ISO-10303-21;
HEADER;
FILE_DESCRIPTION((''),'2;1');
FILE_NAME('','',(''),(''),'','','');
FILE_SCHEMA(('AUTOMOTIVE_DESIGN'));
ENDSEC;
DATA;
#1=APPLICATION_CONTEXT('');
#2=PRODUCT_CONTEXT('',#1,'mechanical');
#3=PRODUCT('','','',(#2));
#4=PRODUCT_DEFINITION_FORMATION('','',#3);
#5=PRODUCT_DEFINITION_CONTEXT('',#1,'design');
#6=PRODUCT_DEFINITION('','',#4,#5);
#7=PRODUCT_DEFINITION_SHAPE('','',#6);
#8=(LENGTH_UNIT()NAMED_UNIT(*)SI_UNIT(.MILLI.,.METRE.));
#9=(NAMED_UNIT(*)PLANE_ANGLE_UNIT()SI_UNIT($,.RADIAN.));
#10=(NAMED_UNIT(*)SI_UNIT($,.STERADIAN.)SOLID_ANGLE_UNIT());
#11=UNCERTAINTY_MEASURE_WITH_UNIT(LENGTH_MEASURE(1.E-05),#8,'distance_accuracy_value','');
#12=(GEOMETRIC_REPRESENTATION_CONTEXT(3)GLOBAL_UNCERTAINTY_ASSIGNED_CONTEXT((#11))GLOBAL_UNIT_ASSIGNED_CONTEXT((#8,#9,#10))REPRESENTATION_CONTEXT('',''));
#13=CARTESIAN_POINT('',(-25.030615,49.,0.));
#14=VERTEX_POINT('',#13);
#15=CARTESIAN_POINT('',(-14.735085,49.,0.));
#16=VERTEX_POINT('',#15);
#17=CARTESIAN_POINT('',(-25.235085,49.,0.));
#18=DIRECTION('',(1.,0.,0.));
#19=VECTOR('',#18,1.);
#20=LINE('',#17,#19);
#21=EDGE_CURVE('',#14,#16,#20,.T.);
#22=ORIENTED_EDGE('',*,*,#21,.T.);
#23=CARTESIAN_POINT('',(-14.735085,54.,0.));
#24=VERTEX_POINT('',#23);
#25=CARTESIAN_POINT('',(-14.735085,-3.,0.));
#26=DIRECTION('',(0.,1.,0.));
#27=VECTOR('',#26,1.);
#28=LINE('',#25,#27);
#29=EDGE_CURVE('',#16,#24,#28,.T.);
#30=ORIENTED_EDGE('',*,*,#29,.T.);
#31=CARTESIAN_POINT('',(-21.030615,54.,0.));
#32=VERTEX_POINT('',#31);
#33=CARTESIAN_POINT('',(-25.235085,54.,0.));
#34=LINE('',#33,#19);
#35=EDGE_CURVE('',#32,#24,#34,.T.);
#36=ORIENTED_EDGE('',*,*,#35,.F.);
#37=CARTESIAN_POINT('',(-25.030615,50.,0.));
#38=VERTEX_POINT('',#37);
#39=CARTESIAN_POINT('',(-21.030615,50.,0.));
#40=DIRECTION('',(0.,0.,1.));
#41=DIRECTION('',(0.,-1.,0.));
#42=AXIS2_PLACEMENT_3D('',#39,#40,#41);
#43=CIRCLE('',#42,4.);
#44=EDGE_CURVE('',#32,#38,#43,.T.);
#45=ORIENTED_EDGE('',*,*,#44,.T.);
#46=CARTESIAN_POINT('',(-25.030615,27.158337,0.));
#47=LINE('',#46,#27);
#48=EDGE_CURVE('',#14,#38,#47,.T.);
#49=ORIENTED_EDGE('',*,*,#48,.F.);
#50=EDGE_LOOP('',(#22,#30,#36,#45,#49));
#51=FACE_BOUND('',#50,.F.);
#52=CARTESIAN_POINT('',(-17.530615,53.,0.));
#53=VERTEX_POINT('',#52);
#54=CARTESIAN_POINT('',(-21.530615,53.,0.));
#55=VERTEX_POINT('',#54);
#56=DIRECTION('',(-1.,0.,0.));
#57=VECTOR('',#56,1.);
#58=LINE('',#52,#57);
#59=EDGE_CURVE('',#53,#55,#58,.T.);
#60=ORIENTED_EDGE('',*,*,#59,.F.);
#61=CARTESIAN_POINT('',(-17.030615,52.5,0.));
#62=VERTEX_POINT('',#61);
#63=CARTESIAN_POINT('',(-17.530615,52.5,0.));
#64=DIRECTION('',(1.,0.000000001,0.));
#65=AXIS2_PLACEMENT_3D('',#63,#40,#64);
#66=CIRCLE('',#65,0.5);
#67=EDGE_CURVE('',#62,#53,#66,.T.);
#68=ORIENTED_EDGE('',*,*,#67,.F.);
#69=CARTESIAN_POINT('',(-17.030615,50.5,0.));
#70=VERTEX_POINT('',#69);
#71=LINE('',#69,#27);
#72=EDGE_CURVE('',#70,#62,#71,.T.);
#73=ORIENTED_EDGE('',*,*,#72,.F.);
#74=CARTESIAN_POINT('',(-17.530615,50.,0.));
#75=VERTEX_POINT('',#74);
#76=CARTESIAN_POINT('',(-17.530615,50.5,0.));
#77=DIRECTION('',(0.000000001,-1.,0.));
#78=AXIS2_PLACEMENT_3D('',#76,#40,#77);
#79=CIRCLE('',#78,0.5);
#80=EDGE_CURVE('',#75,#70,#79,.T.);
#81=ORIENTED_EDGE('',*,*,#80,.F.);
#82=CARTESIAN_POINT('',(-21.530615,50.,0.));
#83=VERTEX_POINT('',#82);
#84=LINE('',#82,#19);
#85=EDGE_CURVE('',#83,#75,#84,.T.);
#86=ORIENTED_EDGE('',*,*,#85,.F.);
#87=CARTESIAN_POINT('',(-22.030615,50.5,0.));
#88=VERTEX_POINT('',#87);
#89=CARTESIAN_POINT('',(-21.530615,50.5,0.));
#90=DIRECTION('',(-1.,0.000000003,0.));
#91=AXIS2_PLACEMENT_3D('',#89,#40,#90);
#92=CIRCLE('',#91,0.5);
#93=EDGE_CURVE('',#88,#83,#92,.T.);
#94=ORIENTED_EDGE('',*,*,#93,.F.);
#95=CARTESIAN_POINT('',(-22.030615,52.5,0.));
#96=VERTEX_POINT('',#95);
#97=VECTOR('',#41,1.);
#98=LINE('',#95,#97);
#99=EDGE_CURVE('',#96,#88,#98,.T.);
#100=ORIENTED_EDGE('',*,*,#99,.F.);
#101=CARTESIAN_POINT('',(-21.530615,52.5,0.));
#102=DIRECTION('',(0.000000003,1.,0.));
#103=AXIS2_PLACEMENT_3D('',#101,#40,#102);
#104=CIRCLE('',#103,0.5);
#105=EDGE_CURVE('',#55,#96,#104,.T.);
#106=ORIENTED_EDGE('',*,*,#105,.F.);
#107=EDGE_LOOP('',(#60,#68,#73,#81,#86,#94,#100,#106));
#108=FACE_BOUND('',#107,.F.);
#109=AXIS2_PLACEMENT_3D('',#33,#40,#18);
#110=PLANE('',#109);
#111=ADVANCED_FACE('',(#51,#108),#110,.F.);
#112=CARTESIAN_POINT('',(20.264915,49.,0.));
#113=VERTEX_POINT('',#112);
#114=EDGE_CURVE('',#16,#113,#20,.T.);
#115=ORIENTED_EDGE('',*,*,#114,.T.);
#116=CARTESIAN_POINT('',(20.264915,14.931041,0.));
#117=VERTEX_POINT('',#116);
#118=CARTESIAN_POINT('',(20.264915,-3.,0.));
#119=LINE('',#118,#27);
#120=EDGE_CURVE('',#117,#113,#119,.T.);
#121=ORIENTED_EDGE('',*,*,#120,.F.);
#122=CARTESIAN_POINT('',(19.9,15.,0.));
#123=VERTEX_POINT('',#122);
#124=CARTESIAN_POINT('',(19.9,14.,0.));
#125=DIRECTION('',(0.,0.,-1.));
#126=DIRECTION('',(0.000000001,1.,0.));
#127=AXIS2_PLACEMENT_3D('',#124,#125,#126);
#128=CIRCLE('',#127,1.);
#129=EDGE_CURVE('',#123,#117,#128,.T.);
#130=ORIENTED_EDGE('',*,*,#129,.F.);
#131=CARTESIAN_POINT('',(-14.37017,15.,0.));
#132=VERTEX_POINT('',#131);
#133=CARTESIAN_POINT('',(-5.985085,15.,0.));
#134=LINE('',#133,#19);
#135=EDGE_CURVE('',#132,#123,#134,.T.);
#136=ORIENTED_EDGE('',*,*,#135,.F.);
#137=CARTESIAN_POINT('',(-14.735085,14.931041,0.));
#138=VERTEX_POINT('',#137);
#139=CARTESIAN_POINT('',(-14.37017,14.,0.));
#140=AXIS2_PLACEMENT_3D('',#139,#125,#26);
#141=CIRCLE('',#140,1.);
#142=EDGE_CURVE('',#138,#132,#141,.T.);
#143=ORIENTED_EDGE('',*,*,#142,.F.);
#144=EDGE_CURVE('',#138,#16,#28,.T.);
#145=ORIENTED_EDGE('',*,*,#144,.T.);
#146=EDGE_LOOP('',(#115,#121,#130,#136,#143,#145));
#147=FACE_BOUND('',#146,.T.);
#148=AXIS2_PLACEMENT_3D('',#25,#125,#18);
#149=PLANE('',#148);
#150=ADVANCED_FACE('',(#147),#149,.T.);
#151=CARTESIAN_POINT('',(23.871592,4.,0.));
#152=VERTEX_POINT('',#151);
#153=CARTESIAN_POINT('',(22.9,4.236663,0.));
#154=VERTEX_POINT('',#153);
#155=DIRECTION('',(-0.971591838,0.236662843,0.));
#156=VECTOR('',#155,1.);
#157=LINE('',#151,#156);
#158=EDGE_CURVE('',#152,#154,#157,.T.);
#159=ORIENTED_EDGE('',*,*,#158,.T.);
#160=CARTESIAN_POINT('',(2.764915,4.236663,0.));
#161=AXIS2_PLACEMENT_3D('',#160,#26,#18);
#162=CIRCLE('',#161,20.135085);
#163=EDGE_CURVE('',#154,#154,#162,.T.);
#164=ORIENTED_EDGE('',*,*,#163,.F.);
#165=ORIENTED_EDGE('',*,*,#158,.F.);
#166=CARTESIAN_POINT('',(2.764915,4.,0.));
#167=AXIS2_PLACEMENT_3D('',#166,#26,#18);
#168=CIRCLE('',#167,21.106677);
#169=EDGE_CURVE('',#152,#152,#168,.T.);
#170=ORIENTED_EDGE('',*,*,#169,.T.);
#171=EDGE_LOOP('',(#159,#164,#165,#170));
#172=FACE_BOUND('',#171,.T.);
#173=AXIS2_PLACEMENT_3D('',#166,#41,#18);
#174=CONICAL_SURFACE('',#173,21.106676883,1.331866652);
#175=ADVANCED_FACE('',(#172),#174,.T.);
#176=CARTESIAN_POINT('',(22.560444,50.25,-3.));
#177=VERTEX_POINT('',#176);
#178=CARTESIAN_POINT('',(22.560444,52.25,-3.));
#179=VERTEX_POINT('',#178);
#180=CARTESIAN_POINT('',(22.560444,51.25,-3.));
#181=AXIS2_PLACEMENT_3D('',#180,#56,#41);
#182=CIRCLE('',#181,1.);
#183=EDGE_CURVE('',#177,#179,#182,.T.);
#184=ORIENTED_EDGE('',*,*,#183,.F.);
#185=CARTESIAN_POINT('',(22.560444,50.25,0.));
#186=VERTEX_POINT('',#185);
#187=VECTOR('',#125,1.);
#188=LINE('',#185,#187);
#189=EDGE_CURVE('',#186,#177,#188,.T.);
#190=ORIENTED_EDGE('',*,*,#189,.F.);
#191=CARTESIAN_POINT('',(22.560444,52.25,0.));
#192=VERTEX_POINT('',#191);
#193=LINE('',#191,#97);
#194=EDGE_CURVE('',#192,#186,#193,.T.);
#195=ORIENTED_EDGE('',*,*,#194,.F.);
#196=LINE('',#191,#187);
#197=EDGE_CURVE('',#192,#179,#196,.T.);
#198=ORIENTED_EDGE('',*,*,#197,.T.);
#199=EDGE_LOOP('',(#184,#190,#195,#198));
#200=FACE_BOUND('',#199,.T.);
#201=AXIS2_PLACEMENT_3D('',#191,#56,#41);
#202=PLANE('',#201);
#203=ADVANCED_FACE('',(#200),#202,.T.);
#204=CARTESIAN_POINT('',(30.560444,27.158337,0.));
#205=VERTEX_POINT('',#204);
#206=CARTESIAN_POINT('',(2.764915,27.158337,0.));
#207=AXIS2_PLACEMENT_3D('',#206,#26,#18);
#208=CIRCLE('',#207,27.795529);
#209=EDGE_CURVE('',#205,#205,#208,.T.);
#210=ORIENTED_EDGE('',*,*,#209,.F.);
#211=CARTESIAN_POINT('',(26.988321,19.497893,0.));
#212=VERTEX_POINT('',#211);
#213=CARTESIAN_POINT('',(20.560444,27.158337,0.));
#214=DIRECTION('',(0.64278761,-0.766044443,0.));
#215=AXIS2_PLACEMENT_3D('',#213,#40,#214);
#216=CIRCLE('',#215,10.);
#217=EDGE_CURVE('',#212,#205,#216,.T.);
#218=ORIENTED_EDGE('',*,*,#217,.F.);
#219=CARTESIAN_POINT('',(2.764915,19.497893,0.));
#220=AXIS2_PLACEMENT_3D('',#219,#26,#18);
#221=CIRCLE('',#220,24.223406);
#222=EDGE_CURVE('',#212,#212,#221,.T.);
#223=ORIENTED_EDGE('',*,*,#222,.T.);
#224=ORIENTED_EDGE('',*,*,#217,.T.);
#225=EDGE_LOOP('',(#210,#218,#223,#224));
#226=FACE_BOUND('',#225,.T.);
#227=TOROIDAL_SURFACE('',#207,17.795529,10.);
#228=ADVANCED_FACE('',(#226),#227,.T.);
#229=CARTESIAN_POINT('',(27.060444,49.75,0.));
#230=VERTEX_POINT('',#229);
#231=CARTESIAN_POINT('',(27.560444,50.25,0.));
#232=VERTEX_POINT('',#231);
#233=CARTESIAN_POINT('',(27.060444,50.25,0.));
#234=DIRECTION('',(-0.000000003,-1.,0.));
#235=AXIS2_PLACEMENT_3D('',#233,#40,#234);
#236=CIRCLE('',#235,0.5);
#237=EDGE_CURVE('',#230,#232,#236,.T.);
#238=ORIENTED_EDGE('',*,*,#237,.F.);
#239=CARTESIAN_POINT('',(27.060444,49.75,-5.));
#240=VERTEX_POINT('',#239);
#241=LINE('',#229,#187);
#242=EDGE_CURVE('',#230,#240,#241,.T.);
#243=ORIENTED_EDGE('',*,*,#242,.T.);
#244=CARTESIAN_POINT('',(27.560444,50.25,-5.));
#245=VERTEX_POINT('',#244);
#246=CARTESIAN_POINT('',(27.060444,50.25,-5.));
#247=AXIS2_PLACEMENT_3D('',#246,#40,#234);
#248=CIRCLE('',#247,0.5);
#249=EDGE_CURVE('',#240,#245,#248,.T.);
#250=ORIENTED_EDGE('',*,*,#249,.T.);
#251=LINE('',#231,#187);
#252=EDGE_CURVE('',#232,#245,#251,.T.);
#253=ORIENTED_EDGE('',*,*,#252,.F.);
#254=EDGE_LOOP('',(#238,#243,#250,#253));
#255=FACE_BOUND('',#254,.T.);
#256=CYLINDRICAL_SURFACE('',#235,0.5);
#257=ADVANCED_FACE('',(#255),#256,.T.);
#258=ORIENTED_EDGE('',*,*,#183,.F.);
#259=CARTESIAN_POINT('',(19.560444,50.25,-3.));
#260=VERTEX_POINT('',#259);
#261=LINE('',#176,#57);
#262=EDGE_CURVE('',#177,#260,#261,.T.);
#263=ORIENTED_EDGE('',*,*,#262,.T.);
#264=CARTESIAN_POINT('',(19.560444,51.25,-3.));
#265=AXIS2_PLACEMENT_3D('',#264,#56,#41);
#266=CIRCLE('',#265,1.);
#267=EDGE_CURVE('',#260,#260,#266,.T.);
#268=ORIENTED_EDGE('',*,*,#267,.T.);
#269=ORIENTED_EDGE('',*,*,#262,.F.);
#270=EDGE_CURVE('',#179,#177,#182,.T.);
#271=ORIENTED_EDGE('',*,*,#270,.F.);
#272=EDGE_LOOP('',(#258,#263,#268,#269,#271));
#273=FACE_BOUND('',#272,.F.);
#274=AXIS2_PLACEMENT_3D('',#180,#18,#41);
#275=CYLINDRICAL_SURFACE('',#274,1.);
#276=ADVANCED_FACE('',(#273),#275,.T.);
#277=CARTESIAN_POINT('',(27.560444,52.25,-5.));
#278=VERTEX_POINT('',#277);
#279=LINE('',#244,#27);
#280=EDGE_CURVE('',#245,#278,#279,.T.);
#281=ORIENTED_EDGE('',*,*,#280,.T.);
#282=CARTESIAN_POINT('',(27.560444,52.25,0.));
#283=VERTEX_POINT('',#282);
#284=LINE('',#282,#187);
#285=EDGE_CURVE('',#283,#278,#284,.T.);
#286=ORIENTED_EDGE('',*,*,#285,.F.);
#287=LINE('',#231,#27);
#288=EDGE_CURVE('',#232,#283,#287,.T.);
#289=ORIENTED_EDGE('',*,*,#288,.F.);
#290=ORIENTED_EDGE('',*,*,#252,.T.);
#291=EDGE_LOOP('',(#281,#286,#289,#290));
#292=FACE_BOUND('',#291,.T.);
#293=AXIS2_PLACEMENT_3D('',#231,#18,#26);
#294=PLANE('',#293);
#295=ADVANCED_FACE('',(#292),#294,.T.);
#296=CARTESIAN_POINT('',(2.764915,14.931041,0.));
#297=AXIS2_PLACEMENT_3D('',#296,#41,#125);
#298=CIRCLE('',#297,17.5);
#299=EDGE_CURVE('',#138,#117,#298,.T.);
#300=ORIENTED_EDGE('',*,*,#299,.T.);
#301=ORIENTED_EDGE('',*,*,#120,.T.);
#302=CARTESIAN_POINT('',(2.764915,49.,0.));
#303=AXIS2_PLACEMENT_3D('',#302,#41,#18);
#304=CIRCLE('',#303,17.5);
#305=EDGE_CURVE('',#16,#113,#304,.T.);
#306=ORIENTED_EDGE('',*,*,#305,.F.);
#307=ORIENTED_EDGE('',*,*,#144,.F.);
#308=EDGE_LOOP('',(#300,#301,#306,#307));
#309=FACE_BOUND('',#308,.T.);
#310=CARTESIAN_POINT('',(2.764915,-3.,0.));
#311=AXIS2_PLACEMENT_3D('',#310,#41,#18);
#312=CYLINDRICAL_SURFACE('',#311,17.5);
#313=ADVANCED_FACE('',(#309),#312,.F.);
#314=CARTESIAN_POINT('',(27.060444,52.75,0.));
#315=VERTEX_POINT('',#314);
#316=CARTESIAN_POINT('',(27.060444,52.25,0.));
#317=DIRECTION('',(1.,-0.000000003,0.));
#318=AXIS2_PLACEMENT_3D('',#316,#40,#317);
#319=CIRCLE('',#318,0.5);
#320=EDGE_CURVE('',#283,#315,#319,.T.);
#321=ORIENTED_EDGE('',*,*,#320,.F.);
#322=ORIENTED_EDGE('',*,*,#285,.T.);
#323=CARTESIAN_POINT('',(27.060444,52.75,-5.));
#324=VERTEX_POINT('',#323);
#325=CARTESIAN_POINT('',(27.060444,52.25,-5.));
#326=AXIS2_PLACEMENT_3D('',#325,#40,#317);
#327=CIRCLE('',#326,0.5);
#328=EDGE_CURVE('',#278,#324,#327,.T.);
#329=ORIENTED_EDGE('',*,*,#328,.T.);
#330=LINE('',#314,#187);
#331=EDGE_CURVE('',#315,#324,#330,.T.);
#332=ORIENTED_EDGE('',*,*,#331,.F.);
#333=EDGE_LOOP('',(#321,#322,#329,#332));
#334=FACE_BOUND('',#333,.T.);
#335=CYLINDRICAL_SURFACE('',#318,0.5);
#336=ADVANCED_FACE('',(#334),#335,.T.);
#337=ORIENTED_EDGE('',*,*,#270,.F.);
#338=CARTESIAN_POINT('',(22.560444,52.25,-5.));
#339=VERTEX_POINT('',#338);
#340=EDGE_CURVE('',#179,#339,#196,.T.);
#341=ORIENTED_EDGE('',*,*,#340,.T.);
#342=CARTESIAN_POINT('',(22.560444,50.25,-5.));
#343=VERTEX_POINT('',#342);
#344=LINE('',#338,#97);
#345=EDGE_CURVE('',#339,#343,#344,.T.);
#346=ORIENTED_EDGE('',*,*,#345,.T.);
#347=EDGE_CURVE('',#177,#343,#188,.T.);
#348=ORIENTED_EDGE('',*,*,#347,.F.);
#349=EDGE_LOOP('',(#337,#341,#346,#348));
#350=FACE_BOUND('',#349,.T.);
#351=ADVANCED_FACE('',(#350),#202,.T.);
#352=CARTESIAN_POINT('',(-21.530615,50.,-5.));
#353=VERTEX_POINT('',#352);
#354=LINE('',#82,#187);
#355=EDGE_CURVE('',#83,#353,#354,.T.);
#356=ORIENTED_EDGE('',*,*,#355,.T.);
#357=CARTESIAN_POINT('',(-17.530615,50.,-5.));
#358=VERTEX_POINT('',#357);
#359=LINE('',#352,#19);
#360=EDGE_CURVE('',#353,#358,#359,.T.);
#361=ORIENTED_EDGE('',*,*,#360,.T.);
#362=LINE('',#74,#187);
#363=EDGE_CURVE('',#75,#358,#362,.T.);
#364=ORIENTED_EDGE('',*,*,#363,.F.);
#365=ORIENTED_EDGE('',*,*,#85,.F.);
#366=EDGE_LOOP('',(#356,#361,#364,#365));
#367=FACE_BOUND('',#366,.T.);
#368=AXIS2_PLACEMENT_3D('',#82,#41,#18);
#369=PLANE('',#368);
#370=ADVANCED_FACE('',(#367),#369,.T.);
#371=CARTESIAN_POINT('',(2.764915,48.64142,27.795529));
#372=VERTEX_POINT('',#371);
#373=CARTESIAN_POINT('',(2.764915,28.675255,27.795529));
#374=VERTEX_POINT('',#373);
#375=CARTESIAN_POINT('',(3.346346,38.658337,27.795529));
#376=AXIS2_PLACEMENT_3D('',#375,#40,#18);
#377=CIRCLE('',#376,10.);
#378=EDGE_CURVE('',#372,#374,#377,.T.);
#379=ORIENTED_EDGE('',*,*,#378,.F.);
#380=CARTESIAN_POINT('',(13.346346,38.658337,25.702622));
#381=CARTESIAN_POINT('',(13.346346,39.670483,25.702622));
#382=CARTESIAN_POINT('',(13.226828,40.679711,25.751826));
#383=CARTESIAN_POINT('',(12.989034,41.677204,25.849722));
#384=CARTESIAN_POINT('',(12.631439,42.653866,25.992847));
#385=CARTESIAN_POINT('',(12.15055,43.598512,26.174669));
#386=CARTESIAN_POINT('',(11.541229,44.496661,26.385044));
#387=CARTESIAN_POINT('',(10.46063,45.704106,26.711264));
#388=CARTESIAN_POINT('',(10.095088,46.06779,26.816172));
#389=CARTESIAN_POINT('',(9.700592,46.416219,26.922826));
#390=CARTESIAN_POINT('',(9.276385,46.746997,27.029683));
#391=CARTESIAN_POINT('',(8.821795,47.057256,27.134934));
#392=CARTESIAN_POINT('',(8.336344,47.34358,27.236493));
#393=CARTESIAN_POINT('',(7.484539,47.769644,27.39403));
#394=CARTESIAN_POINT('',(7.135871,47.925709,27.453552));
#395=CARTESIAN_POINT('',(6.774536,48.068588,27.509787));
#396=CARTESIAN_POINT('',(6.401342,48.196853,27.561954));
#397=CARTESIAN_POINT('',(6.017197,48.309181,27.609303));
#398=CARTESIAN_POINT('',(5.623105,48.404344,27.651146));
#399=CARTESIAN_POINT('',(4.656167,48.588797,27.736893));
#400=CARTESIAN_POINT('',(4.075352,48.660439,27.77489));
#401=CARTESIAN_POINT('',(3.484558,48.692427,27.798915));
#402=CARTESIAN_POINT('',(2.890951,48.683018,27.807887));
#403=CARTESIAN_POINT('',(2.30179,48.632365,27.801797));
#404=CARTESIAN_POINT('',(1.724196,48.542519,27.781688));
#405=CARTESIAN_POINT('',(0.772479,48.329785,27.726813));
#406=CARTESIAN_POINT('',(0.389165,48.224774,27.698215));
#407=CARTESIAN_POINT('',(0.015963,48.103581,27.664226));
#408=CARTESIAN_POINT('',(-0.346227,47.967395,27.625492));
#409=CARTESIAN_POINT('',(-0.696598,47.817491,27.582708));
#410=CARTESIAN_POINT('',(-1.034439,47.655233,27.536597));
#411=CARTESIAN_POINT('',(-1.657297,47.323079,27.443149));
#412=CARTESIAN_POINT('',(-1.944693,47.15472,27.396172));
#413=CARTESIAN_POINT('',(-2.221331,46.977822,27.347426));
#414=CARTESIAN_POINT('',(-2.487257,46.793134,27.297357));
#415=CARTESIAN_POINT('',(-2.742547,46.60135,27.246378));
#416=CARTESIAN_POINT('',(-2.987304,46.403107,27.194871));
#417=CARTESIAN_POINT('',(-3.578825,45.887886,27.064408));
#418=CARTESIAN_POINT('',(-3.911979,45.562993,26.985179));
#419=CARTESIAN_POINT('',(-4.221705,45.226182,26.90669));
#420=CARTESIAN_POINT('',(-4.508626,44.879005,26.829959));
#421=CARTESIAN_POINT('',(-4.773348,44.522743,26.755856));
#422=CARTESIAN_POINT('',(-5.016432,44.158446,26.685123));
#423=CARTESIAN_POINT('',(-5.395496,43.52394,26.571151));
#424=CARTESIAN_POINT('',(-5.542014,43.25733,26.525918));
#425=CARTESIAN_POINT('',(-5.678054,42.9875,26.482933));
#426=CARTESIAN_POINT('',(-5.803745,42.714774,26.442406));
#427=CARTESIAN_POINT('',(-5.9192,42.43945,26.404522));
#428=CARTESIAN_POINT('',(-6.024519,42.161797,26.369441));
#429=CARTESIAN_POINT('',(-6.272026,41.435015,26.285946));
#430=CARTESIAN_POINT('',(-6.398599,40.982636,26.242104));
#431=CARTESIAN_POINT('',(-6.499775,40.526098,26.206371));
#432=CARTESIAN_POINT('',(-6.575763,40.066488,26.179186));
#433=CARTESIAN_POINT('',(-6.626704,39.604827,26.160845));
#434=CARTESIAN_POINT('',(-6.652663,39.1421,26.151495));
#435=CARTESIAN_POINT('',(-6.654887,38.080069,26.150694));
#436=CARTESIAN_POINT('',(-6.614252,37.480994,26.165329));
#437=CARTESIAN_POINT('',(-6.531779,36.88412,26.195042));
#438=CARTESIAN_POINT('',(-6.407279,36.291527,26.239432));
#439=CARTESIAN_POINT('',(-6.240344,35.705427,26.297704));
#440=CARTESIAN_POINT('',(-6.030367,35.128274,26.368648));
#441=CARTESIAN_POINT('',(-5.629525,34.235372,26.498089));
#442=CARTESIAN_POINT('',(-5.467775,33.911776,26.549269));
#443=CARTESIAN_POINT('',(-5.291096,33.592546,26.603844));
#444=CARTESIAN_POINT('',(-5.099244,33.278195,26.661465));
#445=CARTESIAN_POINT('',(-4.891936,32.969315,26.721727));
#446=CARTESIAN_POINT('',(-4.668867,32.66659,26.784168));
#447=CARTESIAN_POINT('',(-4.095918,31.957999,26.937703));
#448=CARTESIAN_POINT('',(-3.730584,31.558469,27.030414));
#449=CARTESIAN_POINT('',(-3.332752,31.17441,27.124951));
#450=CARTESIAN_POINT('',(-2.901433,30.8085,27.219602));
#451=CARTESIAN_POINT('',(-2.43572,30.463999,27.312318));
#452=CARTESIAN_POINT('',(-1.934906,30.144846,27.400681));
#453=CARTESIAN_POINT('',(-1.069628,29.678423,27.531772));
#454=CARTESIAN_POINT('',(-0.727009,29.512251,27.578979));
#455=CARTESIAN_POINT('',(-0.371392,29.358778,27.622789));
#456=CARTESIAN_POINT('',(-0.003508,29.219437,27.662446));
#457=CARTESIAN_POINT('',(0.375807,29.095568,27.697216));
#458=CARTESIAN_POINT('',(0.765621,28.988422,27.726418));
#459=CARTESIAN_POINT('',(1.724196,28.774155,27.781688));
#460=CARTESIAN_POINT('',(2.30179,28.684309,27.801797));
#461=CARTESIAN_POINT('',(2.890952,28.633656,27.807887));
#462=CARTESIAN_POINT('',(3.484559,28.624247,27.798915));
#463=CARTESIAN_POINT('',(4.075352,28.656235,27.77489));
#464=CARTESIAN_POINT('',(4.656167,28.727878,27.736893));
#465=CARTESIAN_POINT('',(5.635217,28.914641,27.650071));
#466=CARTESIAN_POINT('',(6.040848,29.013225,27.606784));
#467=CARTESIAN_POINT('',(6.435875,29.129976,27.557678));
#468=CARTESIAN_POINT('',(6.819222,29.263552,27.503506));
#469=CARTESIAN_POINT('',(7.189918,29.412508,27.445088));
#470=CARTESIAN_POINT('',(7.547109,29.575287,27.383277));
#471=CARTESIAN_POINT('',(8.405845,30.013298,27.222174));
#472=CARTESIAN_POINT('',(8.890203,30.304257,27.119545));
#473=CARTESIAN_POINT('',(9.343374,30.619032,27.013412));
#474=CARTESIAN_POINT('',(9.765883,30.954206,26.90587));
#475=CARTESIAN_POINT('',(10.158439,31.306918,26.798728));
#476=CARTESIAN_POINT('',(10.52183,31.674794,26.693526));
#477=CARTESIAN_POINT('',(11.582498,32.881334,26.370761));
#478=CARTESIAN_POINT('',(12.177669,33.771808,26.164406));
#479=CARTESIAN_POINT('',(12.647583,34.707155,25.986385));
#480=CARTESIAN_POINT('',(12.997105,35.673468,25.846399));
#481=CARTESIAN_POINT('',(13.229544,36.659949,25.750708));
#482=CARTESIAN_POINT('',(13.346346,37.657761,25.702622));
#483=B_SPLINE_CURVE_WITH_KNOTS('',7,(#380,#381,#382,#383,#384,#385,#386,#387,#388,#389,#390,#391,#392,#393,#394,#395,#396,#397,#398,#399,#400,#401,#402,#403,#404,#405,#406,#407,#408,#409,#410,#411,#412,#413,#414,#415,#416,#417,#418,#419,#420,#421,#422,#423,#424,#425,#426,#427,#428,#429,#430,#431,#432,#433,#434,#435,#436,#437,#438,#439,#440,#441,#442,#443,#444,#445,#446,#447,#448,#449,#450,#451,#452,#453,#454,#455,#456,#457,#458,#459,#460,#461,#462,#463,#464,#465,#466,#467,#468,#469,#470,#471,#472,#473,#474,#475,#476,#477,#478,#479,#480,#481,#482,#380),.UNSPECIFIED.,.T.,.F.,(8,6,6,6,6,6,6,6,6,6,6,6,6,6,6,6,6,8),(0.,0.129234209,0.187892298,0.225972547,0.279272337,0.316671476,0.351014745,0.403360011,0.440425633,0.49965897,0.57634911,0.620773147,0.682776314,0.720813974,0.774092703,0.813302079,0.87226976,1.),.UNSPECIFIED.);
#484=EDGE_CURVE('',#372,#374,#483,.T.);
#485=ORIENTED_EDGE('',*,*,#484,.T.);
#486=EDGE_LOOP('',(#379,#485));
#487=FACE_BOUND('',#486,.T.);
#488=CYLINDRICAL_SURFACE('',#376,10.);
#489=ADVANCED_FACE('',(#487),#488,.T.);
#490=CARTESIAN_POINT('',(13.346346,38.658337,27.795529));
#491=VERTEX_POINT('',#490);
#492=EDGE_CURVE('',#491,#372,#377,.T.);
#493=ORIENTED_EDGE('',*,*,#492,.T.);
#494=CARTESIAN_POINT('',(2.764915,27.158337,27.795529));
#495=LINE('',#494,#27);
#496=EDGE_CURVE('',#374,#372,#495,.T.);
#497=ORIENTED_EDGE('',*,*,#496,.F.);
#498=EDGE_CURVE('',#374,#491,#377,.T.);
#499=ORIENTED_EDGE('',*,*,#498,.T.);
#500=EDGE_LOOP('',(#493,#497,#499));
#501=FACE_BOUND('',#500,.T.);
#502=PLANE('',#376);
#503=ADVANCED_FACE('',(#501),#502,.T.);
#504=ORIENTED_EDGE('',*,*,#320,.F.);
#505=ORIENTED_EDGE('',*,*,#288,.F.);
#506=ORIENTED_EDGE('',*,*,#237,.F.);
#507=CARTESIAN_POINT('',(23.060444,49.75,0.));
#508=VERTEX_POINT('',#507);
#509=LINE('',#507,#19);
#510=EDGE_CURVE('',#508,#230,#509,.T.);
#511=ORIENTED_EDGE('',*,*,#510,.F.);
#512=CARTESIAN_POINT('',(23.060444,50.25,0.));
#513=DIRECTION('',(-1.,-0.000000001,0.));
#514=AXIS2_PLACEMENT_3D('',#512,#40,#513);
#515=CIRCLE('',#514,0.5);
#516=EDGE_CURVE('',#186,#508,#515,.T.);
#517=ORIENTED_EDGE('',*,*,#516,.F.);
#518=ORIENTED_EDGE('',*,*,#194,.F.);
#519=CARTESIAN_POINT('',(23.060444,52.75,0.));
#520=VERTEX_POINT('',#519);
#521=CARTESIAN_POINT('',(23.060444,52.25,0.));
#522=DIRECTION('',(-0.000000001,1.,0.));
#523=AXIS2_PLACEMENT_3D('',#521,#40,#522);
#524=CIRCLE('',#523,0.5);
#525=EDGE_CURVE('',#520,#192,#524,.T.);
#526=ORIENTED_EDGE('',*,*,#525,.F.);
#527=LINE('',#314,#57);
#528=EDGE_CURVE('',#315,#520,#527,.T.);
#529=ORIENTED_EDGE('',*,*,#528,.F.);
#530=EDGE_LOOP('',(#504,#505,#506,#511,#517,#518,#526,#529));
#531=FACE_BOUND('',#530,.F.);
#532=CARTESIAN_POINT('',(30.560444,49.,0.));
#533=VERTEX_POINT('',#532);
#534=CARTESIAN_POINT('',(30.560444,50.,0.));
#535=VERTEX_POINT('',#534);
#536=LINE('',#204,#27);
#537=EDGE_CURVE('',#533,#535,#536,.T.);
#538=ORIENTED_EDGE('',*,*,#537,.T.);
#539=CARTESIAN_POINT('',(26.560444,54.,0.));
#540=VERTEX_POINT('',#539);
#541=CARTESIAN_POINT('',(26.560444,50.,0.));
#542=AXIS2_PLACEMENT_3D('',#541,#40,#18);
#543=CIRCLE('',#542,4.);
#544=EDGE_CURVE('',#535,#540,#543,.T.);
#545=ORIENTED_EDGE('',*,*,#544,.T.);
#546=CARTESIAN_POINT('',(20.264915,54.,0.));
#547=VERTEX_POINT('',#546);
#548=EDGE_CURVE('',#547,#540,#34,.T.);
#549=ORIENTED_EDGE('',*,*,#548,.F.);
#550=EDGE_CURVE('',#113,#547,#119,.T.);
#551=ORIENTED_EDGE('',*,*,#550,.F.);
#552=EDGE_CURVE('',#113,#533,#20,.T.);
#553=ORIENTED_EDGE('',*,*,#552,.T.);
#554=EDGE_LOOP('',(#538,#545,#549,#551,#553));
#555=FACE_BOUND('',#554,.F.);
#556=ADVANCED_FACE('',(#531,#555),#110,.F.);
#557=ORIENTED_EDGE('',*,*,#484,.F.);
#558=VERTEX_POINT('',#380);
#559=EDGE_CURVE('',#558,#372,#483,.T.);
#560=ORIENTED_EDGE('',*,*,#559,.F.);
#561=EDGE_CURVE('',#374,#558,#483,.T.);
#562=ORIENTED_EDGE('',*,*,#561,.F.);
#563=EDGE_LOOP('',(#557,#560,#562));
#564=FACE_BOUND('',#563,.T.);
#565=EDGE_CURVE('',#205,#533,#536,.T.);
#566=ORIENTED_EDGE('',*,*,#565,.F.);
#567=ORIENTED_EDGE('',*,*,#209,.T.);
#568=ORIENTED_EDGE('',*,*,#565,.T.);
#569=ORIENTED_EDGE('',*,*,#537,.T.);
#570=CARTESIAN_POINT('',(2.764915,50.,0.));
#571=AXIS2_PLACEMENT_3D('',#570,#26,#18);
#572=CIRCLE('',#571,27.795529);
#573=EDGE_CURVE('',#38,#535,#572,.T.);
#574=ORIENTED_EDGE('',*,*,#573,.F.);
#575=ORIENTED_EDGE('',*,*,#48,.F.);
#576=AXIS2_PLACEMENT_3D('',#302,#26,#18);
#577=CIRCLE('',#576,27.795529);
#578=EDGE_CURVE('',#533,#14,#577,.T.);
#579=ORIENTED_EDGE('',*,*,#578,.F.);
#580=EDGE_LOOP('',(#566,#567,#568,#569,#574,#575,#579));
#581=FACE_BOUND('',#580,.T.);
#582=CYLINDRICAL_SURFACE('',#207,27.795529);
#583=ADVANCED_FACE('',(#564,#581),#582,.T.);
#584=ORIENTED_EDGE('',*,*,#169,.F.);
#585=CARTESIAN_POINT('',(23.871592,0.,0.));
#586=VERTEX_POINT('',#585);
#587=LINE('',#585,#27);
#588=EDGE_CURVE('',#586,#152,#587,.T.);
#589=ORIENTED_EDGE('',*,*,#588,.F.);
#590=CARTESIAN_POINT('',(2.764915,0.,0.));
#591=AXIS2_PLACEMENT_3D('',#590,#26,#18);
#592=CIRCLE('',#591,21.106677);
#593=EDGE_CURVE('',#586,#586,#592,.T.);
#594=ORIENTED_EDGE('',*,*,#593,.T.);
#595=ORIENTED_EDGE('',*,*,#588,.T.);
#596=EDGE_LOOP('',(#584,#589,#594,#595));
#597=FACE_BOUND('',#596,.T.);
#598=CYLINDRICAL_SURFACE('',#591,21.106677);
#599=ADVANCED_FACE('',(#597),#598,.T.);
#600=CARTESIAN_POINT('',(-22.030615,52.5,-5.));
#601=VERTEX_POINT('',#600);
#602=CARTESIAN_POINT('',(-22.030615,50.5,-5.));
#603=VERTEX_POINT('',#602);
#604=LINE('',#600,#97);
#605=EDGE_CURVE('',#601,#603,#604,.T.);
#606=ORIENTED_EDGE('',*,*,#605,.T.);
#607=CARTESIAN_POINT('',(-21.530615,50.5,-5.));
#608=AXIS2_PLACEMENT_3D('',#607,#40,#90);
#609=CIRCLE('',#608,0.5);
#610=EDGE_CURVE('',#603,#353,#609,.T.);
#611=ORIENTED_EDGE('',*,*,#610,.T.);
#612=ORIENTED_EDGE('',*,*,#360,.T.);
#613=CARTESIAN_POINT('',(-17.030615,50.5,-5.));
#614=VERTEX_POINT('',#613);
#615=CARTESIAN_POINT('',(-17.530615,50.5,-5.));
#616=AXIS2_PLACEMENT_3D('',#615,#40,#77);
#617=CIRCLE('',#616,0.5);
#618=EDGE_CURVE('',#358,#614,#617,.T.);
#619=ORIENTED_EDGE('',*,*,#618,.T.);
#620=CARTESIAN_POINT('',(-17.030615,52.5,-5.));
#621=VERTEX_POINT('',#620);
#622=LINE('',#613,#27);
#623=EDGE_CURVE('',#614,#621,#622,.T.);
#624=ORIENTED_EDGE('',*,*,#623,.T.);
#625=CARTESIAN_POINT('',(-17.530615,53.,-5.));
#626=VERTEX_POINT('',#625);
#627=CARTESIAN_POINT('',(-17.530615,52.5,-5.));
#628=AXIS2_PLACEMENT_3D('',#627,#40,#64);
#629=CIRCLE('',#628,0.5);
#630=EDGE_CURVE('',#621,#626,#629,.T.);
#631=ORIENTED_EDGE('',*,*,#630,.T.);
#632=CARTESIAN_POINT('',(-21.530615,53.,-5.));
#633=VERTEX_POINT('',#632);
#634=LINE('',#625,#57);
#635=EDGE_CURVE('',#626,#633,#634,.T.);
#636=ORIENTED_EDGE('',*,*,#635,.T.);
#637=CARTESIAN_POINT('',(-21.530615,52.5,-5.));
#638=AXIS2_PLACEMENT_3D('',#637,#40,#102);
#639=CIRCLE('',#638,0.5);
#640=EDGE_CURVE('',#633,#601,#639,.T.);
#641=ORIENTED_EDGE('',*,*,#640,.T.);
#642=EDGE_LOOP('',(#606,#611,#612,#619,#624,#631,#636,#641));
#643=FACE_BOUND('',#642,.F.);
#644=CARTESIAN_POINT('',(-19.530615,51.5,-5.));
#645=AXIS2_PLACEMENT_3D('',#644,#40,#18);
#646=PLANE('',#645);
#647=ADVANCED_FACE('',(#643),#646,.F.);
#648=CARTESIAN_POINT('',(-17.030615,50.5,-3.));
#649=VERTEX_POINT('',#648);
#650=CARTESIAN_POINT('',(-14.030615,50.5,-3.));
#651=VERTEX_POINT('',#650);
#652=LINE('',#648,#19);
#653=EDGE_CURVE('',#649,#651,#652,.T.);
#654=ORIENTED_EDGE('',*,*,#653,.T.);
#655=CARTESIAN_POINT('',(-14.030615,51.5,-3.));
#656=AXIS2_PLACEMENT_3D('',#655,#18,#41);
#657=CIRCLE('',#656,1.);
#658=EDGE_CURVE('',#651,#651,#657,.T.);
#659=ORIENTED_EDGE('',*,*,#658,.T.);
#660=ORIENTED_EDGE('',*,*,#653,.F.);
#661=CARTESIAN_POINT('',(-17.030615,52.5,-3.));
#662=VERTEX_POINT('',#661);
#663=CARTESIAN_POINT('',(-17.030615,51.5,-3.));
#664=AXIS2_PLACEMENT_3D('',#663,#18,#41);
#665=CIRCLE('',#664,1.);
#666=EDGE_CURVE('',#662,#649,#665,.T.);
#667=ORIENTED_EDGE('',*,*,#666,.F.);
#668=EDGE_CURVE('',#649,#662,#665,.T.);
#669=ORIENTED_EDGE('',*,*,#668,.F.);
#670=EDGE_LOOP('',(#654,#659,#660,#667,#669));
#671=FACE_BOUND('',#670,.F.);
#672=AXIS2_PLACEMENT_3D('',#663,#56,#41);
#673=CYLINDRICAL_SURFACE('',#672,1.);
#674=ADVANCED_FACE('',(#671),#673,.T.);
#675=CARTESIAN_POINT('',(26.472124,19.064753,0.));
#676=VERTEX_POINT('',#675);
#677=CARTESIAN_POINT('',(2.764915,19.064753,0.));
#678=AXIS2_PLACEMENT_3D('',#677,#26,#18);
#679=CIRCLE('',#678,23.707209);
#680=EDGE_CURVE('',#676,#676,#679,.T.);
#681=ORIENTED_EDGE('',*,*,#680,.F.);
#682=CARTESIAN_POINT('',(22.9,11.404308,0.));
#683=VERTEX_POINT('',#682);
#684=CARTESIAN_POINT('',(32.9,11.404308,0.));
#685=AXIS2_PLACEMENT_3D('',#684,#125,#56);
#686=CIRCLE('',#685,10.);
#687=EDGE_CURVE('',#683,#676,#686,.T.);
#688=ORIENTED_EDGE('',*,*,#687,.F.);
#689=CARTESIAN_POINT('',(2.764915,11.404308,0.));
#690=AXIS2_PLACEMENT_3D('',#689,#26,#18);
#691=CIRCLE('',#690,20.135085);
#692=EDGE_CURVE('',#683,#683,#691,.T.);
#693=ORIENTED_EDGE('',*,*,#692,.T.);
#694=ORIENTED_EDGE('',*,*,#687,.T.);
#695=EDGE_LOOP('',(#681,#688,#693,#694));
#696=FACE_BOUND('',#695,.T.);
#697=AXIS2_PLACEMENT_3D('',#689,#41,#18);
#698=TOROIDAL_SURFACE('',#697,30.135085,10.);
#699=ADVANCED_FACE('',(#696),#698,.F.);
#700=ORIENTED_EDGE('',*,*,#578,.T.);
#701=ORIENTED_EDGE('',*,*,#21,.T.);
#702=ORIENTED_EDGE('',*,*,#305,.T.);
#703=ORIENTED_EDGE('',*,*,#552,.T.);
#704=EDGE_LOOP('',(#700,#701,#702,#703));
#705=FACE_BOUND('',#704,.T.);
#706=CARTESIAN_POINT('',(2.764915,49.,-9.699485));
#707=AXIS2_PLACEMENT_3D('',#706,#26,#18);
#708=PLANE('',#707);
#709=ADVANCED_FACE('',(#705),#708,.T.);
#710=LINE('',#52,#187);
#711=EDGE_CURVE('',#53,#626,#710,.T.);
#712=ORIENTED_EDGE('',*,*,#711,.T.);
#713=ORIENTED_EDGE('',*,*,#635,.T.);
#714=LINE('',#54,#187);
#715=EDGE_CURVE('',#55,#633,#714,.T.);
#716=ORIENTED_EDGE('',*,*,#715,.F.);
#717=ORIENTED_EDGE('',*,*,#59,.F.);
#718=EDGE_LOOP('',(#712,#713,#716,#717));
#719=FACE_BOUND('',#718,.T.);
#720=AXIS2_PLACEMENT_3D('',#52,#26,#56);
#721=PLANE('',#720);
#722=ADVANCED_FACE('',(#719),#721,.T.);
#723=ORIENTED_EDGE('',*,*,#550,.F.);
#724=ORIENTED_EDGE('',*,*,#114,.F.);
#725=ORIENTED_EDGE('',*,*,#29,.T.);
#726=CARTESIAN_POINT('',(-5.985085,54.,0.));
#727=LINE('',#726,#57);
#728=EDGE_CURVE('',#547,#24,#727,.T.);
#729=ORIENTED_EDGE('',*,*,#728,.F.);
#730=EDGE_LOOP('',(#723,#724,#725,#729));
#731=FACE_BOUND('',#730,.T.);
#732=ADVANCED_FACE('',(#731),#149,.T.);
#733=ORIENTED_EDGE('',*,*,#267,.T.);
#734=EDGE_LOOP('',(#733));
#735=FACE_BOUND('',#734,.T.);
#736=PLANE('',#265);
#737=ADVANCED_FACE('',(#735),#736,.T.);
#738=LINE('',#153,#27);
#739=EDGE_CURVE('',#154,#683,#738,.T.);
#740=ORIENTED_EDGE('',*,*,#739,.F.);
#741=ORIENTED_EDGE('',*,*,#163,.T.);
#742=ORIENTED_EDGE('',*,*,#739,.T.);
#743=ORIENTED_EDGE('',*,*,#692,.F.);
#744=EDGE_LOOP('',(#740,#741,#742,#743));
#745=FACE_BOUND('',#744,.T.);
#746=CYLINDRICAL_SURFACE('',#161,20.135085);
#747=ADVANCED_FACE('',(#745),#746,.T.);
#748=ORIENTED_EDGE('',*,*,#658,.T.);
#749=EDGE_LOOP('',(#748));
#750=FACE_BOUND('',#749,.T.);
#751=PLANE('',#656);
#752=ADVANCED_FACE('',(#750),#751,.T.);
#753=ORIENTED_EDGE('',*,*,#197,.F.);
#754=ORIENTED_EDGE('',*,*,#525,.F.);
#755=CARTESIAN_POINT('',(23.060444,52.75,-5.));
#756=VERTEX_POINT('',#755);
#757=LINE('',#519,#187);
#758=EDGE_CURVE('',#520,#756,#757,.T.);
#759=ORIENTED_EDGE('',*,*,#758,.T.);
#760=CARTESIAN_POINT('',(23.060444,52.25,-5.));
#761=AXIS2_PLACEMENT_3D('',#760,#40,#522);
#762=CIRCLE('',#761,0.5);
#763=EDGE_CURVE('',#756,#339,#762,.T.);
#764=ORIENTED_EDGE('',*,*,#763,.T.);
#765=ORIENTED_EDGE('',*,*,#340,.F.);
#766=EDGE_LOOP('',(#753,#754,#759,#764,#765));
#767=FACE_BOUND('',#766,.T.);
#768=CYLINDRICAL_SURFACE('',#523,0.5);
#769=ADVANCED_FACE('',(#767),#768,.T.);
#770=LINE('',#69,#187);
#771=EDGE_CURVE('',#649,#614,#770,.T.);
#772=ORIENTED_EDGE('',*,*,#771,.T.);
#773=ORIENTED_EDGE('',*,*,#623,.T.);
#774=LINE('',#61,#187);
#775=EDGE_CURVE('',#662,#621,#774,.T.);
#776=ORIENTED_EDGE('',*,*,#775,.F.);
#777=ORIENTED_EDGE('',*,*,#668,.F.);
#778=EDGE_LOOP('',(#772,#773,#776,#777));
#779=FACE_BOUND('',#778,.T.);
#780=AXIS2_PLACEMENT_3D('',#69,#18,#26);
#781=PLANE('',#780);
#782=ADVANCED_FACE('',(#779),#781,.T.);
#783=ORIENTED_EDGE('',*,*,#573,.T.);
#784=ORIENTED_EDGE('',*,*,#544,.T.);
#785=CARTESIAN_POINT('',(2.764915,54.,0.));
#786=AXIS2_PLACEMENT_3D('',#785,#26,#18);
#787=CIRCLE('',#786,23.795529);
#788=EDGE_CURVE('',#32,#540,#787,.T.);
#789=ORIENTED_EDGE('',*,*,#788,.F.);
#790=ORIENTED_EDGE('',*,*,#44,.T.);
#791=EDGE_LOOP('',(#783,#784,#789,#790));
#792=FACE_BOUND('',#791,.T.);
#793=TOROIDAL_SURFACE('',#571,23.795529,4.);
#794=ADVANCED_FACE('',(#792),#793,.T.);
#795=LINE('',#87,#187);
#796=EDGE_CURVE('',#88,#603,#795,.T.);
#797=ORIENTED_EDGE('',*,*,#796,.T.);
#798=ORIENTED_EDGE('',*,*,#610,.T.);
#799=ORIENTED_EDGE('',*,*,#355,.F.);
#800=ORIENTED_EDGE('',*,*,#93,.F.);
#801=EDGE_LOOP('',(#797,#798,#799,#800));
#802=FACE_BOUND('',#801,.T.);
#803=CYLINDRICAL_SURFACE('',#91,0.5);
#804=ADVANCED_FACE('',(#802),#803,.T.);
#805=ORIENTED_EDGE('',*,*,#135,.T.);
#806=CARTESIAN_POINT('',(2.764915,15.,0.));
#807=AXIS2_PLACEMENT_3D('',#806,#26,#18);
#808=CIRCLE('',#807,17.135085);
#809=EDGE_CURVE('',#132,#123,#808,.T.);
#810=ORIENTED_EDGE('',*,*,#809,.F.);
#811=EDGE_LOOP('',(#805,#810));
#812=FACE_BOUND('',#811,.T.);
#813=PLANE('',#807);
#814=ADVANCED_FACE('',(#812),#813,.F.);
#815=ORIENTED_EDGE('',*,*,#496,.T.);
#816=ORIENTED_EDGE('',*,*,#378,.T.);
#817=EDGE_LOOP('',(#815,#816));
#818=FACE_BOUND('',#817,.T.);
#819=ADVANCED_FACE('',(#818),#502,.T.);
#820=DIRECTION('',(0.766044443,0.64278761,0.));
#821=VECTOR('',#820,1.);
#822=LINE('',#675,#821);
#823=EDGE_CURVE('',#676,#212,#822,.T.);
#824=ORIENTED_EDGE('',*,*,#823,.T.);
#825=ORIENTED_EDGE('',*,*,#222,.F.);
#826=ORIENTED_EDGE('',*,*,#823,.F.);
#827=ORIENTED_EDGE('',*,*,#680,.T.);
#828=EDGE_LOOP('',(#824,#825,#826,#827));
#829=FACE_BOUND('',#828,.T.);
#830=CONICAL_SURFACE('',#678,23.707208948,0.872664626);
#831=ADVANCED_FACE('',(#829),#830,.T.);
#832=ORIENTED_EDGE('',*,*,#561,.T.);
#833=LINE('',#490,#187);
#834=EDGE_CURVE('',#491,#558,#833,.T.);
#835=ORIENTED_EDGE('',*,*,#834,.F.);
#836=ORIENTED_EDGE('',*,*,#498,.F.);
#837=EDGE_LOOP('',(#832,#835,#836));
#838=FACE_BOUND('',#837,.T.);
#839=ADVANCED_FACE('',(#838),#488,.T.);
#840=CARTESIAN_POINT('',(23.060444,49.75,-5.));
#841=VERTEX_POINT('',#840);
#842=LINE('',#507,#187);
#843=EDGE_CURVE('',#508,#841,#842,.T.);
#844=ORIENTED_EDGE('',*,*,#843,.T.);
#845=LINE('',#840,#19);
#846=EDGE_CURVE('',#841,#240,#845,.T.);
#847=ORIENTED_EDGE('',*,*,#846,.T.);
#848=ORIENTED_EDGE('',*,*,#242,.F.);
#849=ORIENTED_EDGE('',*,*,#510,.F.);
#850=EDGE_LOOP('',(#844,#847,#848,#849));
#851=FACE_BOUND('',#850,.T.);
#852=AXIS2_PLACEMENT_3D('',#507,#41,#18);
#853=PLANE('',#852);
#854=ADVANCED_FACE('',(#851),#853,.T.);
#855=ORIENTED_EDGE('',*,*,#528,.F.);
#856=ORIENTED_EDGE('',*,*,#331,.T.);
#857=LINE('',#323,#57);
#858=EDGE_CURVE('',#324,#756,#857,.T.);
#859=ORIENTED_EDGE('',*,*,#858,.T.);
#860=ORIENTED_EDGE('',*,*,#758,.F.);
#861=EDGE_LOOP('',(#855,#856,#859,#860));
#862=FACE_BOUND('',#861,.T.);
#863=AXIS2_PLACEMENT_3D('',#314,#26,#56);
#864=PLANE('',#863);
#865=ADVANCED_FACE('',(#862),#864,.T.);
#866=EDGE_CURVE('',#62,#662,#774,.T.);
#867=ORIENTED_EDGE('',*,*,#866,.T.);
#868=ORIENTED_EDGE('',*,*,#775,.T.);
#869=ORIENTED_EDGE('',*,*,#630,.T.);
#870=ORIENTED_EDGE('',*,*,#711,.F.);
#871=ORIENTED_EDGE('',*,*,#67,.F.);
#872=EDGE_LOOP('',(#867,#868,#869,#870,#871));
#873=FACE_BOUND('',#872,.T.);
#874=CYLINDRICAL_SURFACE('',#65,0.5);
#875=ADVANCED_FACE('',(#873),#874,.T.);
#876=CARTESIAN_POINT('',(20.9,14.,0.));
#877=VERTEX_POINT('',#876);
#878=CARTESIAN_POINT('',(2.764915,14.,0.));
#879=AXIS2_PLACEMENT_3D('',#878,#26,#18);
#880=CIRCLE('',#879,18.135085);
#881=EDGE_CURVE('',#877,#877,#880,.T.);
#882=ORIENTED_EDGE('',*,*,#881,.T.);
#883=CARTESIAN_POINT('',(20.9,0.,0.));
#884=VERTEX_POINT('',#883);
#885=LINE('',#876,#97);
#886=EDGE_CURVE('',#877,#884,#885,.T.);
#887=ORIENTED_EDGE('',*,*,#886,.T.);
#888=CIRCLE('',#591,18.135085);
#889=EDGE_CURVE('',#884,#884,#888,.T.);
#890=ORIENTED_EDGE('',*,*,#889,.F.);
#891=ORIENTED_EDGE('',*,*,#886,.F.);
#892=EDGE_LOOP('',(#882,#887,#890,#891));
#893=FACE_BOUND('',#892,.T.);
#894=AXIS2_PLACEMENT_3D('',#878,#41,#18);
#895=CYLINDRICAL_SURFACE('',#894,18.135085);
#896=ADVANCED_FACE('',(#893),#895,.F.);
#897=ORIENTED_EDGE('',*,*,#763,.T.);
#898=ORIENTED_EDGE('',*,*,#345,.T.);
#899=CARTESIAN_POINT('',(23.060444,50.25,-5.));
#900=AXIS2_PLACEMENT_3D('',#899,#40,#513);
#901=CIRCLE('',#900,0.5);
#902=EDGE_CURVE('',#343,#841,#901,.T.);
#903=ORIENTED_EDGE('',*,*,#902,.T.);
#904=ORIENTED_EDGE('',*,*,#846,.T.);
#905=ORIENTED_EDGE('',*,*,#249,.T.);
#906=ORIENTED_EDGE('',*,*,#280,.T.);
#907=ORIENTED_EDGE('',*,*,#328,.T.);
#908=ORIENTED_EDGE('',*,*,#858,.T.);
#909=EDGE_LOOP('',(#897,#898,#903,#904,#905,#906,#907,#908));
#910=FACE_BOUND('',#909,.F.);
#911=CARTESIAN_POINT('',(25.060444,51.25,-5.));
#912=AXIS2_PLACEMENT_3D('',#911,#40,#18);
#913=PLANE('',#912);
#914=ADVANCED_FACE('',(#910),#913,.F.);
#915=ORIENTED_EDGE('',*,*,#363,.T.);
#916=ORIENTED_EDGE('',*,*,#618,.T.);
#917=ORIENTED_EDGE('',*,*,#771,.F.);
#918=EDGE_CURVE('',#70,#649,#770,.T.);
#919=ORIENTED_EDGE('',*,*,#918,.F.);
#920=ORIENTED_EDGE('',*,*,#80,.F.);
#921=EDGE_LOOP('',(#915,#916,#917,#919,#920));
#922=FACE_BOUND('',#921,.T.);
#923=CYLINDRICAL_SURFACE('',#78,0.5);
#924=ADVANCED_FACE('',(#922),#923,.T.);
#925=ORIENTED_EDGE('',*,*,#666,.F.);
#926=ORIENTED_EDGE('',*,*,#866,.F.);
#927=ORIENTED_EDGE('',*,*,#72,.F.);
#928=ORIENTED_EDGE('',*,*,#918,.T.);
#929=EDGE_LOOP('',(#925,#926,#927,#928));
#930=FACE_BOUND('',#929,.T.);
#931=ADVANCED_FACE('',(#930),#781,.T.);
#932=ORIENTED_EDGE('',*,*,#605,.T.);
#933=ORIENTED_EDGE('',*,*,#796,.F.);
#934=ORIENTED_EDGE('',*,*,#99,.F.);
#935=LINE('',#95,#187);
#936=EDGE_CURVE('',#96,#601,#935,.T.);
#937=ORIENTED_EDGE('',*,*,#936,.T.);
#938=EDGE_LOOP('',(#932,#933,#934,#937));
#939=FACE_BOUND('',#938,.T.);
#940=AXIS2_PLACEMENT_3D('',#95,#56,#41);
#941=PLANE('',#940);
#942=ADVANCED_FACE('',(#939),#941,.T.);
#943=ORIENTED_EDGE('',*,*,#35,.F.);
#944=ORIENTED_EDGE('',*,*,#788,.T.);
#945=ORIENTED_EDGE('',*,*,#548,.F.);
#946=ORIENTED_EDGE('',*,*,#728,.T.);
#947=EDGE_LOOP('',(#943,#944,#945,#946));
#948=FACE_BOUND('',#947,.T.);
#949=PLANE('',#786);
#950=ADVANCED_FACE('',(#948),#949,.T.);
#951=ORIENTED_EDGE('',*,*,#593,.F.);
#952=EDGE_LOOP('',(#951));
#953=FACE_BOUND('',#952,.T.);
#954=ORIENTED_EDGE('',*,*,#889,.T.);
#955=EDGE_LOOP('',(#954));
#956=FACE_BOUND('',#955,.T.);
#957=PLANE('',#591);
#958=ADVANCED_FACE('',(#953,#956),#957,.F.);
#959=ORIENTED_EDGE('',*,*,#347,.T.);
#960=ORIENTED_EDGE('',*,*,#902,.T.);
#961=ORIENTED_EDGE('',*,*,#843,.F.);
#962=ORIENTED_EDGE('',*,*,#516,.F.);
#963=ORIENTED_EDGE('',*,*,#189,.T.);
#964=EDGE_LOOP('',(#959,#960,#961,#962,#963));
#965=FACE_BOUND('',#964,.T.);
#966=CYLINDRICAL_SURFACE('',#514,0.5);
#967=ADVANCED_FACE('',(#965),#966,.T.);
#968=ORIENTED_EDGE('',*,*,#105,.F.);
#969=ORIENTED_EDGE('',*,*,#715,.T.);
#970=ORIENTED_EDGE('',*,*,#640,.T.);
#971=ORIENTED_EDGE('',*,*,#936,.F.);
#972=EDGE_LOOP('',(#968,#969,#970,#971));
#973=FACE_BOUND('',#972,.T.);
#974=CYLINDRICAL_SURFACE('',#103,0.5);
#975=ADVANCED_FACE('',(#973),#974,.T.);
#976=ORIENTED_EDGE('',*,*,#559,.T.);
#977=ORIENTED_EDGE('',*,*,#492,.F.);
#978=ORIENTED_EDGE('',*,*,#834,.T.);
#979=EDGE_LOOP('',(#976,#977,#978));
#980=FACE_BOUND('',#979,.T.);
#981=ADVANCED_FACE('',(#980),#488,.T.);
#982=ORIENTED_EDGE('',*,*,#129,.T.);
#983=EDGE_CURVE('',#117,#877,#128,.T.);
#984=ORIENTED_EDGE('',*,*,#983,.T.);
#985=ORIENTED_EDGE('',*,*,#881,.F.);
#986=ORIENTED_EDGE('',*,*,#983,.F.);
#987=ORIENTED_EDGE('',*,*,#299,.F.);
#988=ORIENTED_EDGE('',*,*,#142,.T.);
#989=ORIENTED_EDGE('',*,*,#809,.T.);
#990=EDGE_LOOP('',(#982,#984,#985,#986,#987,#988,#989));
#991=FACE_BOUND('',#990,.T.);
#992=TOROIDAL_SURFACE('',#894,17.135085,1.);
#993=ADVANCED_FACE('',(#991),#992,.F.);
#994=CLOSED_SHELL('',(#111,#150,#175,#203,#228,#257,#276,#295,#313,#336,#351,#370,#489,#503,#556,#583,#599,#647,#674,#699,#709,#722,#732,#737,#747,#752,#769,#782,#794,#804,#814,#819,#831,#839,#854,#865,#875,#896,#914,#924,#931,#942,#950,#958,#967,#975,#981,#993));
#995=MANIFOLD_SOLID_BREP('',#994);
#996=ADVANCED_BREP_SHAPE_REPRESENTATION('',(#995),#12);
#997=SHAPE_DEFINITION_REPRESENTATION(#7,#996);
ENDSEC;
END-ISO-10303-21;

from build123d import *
from build123d.topology import SkipClean

# Parameters (mm, degrees)
SKETCH10_R              = 10
BOSS_EXTRUDE1_DEPTH     = 5
CUT_EXTRUDE3_DEPTH      = 45
CUT_EXTRUDE3_DEPTH_BACK = 20
CUT_EXTRUDE5_DEPTH      = 5
BOSS_EXTRUDE2_DEPTH     = 5
SKETCH14_R              = 1
BOSS_EXTRUDE3_DEPTH     = 3
SKETCH15_R              = 1
BOSS_EXTRUDE4_DEPTH     = 3


with BuildPart() as part:
    # Sketch1 → Revolve1 (revolve)
    with BuildSketch(Plane.XY):
        with BuildLine():
            Line((20.9, 0), (23.871591838, 0))
            Line((23.871591838, 0), (23.871591838, 4))
            Line((23.871591838, 4), (22.9, 4.236662843))
            Line((22.9, 4.236662843), (22.9, 11.404308102))
            ThreePointArc((22.9, 11.404308102), (23.83692213, 15.63049072), (26.472123903, 19.064752533))
            Line((26.472123903, 19.064752533), (26.988320528, 19.497892931))
            ThreePointArc((26.988320528, 19.497892931), (29.623522302, 22.932154745), (30.560444431, 27.158337362))
            Line((30.560444431, 27.158337362), (30.560444431, 50))
            ThreePointArc((30.560444431, 50), (29.388871556, 52.828427125), (26.560444431, 54))
            Line((26.560444431, 54), (2.764914955, 54))
            Line((2.764914955, 54), (2.764914955, 15))
            Line((2.764914955, 15), (19.9, 15))
            ThreePointArc((19.9, 15), (20.607106781, 14.707106781), (20.9, 14))
            Line((20.9, 14), (20.9, 0))
        make_face()
    revolve(axis=Axis((2.764914955, 7.821821657, 0), (0, 1, 0)))

    # Sketch10 → Boss-Extrude1 (add)
    with SkipClean():  # the faces are left unmerged after this step: merging them gives an invalid solid
        with BuildSketch(Plane.XY.offset(27.795529476)):
            with Locations((3.346345887, 38.658337362)):
                Circle(SKETCH10_R)
        extrude(amount=-BOSS_EXTRUDE1_DEPTH)

    # Sketch11 → Cut-Extrude3 (cut, two sides: drawn at the far end of the back side and taken through both)
    with SkipClean():  # the faces are left unmerged after this step: merging them gives an invalid solid
        with BuildSketch(Plane(origin=(0, 17, 0), x_dir=(1, 0, 0), z_dir=(0, 1, 0)).offset(-CUT_EXTRUDE3_DEPTH_BACK)):
            with BuildLine():
                Line((-14.735085045, 0), (20.264914955, 0))
                ThreePointArc((20.264914955, 0), (2.764914955, 17.5), (-14.735085045, 0))
            make_face()
        extrude(amount=CUT_EXTRUDE3_DEPTH + CUT_EXTRUDE3_DEPTH_BACK, mode=Mode.SUBTRACT)

    # Sketch9 → Cut-Extrude5 (cut)
    with SkipClean():  # the faces are left unmerged after this step: merging them gives an invalid solid
        with BuildSketch(Plane(origin=(0, 54, 0), x_dir=(1, 0, 0), z_dir=(0, 1, 0))):
            with BuildLine():
                Line((-25.235085045, 0), (30.764914955, 0))
                ThreePointArc((30.764914955, 0), (2.764914955, 28), (-25.235085045, 0))
            make_face()
        extrude(amount=-CUT_EXTRUDE5_DEPTH, mode=Mode.SUBTRACT)

    # Sketch13 → Boss-Extrude2 (add)
    with SkipClean():  # the faces are left unmerged after this step: merging them gives an invalid solid
        with BuildSketch(Plane(origin=(0, 0, 0), x_dir=(-1, 0, 0), z_dir=(0, 0, -1))):
            with BuildLine():
                Line((17.53061452, 53), (21.53061452, 53))
                ThreePointArc((21.53061452, 53), (21.884167911, 52.853553391), (22.03061452, 52.5))
                Line((22.03061452, 52.5), (22.03061452, 50.5))
                ThreePointArc((22.03061452, 50.5), (21.884167911, 50.146446609), (21.53061452, 50))
                Line((21.53061452, 50), (17.53061452, 50))
                ThreePointArc((17.53061452, 50), (17.17706113, 50.146446609), (17.03061452, 50.5))
                Line((17.03061452, 50.5), (17.03061452, 52.5))
                ThreePointArc((17.03061452, 52.5), (17.17706113, 52.853553391), (17.53061452, 53))
            make_face()
            with BuildLine():
                Line((-27.060444431, 52.75), (-23.060444431, 52.75))
                ThreePointArc((-23.060444431, 52.75), (-22.706891041, 52.603553391), (-22.560444431, 52.25))
                Line((-22.560444431, 52.25), (-22.560444431, 50.25))
                ThreePointArc((-22.560444431, 50.25), (-22.706891041, 49.896446609), (-23.060444431, 49.75))
                Line((-23.060444431, 49.75), (-27.060444431, 49.75))
                ThreePointArc((-27.060444431, 49.75), (-27.413997822, 49.896446609), (-27.560444431, 50.25))
                Line((-27.560444431, 50.25), (-27.560444431, 52.25))
                ThreePointArc((-27.560444431, 52.25), (-27.413997822, 52.603553391), (-27.060444431, 52.75))
            make_face()
        extrude(amount=BOSS_EXTRUDE2_DEPTH)

    # Sketch14 → Boss-Extrude3 (add)
    with SkipClean():  # the faces are left unmerged after this step: merging them gives an invalid solid
        with BuildSketch(Plane.ZY.offset(-22.560444431)):
            with Locations((-3, 51.25)):
                Circle(SKETCH14_R)
        extrude(amount=BOSS_EXTRUDE3_DEPTH)

    # Sketch15 → Boss-Extrude4 (add)
    with SkipClean():  # the faces are left unmerged after this step: merging them gives an invalid solid
        with BuildSketch(Plane(origin=(-17.03061452, 0, 0), x_dir=(0, 0, -1), z_dir=(1, 0, 0))):
            with Locations((3, 51.5)):
                Circle(SKETCH15_R)
        extrude(amount=BOSS_EXTRUDE4_DEPTH)


solid = part.part
